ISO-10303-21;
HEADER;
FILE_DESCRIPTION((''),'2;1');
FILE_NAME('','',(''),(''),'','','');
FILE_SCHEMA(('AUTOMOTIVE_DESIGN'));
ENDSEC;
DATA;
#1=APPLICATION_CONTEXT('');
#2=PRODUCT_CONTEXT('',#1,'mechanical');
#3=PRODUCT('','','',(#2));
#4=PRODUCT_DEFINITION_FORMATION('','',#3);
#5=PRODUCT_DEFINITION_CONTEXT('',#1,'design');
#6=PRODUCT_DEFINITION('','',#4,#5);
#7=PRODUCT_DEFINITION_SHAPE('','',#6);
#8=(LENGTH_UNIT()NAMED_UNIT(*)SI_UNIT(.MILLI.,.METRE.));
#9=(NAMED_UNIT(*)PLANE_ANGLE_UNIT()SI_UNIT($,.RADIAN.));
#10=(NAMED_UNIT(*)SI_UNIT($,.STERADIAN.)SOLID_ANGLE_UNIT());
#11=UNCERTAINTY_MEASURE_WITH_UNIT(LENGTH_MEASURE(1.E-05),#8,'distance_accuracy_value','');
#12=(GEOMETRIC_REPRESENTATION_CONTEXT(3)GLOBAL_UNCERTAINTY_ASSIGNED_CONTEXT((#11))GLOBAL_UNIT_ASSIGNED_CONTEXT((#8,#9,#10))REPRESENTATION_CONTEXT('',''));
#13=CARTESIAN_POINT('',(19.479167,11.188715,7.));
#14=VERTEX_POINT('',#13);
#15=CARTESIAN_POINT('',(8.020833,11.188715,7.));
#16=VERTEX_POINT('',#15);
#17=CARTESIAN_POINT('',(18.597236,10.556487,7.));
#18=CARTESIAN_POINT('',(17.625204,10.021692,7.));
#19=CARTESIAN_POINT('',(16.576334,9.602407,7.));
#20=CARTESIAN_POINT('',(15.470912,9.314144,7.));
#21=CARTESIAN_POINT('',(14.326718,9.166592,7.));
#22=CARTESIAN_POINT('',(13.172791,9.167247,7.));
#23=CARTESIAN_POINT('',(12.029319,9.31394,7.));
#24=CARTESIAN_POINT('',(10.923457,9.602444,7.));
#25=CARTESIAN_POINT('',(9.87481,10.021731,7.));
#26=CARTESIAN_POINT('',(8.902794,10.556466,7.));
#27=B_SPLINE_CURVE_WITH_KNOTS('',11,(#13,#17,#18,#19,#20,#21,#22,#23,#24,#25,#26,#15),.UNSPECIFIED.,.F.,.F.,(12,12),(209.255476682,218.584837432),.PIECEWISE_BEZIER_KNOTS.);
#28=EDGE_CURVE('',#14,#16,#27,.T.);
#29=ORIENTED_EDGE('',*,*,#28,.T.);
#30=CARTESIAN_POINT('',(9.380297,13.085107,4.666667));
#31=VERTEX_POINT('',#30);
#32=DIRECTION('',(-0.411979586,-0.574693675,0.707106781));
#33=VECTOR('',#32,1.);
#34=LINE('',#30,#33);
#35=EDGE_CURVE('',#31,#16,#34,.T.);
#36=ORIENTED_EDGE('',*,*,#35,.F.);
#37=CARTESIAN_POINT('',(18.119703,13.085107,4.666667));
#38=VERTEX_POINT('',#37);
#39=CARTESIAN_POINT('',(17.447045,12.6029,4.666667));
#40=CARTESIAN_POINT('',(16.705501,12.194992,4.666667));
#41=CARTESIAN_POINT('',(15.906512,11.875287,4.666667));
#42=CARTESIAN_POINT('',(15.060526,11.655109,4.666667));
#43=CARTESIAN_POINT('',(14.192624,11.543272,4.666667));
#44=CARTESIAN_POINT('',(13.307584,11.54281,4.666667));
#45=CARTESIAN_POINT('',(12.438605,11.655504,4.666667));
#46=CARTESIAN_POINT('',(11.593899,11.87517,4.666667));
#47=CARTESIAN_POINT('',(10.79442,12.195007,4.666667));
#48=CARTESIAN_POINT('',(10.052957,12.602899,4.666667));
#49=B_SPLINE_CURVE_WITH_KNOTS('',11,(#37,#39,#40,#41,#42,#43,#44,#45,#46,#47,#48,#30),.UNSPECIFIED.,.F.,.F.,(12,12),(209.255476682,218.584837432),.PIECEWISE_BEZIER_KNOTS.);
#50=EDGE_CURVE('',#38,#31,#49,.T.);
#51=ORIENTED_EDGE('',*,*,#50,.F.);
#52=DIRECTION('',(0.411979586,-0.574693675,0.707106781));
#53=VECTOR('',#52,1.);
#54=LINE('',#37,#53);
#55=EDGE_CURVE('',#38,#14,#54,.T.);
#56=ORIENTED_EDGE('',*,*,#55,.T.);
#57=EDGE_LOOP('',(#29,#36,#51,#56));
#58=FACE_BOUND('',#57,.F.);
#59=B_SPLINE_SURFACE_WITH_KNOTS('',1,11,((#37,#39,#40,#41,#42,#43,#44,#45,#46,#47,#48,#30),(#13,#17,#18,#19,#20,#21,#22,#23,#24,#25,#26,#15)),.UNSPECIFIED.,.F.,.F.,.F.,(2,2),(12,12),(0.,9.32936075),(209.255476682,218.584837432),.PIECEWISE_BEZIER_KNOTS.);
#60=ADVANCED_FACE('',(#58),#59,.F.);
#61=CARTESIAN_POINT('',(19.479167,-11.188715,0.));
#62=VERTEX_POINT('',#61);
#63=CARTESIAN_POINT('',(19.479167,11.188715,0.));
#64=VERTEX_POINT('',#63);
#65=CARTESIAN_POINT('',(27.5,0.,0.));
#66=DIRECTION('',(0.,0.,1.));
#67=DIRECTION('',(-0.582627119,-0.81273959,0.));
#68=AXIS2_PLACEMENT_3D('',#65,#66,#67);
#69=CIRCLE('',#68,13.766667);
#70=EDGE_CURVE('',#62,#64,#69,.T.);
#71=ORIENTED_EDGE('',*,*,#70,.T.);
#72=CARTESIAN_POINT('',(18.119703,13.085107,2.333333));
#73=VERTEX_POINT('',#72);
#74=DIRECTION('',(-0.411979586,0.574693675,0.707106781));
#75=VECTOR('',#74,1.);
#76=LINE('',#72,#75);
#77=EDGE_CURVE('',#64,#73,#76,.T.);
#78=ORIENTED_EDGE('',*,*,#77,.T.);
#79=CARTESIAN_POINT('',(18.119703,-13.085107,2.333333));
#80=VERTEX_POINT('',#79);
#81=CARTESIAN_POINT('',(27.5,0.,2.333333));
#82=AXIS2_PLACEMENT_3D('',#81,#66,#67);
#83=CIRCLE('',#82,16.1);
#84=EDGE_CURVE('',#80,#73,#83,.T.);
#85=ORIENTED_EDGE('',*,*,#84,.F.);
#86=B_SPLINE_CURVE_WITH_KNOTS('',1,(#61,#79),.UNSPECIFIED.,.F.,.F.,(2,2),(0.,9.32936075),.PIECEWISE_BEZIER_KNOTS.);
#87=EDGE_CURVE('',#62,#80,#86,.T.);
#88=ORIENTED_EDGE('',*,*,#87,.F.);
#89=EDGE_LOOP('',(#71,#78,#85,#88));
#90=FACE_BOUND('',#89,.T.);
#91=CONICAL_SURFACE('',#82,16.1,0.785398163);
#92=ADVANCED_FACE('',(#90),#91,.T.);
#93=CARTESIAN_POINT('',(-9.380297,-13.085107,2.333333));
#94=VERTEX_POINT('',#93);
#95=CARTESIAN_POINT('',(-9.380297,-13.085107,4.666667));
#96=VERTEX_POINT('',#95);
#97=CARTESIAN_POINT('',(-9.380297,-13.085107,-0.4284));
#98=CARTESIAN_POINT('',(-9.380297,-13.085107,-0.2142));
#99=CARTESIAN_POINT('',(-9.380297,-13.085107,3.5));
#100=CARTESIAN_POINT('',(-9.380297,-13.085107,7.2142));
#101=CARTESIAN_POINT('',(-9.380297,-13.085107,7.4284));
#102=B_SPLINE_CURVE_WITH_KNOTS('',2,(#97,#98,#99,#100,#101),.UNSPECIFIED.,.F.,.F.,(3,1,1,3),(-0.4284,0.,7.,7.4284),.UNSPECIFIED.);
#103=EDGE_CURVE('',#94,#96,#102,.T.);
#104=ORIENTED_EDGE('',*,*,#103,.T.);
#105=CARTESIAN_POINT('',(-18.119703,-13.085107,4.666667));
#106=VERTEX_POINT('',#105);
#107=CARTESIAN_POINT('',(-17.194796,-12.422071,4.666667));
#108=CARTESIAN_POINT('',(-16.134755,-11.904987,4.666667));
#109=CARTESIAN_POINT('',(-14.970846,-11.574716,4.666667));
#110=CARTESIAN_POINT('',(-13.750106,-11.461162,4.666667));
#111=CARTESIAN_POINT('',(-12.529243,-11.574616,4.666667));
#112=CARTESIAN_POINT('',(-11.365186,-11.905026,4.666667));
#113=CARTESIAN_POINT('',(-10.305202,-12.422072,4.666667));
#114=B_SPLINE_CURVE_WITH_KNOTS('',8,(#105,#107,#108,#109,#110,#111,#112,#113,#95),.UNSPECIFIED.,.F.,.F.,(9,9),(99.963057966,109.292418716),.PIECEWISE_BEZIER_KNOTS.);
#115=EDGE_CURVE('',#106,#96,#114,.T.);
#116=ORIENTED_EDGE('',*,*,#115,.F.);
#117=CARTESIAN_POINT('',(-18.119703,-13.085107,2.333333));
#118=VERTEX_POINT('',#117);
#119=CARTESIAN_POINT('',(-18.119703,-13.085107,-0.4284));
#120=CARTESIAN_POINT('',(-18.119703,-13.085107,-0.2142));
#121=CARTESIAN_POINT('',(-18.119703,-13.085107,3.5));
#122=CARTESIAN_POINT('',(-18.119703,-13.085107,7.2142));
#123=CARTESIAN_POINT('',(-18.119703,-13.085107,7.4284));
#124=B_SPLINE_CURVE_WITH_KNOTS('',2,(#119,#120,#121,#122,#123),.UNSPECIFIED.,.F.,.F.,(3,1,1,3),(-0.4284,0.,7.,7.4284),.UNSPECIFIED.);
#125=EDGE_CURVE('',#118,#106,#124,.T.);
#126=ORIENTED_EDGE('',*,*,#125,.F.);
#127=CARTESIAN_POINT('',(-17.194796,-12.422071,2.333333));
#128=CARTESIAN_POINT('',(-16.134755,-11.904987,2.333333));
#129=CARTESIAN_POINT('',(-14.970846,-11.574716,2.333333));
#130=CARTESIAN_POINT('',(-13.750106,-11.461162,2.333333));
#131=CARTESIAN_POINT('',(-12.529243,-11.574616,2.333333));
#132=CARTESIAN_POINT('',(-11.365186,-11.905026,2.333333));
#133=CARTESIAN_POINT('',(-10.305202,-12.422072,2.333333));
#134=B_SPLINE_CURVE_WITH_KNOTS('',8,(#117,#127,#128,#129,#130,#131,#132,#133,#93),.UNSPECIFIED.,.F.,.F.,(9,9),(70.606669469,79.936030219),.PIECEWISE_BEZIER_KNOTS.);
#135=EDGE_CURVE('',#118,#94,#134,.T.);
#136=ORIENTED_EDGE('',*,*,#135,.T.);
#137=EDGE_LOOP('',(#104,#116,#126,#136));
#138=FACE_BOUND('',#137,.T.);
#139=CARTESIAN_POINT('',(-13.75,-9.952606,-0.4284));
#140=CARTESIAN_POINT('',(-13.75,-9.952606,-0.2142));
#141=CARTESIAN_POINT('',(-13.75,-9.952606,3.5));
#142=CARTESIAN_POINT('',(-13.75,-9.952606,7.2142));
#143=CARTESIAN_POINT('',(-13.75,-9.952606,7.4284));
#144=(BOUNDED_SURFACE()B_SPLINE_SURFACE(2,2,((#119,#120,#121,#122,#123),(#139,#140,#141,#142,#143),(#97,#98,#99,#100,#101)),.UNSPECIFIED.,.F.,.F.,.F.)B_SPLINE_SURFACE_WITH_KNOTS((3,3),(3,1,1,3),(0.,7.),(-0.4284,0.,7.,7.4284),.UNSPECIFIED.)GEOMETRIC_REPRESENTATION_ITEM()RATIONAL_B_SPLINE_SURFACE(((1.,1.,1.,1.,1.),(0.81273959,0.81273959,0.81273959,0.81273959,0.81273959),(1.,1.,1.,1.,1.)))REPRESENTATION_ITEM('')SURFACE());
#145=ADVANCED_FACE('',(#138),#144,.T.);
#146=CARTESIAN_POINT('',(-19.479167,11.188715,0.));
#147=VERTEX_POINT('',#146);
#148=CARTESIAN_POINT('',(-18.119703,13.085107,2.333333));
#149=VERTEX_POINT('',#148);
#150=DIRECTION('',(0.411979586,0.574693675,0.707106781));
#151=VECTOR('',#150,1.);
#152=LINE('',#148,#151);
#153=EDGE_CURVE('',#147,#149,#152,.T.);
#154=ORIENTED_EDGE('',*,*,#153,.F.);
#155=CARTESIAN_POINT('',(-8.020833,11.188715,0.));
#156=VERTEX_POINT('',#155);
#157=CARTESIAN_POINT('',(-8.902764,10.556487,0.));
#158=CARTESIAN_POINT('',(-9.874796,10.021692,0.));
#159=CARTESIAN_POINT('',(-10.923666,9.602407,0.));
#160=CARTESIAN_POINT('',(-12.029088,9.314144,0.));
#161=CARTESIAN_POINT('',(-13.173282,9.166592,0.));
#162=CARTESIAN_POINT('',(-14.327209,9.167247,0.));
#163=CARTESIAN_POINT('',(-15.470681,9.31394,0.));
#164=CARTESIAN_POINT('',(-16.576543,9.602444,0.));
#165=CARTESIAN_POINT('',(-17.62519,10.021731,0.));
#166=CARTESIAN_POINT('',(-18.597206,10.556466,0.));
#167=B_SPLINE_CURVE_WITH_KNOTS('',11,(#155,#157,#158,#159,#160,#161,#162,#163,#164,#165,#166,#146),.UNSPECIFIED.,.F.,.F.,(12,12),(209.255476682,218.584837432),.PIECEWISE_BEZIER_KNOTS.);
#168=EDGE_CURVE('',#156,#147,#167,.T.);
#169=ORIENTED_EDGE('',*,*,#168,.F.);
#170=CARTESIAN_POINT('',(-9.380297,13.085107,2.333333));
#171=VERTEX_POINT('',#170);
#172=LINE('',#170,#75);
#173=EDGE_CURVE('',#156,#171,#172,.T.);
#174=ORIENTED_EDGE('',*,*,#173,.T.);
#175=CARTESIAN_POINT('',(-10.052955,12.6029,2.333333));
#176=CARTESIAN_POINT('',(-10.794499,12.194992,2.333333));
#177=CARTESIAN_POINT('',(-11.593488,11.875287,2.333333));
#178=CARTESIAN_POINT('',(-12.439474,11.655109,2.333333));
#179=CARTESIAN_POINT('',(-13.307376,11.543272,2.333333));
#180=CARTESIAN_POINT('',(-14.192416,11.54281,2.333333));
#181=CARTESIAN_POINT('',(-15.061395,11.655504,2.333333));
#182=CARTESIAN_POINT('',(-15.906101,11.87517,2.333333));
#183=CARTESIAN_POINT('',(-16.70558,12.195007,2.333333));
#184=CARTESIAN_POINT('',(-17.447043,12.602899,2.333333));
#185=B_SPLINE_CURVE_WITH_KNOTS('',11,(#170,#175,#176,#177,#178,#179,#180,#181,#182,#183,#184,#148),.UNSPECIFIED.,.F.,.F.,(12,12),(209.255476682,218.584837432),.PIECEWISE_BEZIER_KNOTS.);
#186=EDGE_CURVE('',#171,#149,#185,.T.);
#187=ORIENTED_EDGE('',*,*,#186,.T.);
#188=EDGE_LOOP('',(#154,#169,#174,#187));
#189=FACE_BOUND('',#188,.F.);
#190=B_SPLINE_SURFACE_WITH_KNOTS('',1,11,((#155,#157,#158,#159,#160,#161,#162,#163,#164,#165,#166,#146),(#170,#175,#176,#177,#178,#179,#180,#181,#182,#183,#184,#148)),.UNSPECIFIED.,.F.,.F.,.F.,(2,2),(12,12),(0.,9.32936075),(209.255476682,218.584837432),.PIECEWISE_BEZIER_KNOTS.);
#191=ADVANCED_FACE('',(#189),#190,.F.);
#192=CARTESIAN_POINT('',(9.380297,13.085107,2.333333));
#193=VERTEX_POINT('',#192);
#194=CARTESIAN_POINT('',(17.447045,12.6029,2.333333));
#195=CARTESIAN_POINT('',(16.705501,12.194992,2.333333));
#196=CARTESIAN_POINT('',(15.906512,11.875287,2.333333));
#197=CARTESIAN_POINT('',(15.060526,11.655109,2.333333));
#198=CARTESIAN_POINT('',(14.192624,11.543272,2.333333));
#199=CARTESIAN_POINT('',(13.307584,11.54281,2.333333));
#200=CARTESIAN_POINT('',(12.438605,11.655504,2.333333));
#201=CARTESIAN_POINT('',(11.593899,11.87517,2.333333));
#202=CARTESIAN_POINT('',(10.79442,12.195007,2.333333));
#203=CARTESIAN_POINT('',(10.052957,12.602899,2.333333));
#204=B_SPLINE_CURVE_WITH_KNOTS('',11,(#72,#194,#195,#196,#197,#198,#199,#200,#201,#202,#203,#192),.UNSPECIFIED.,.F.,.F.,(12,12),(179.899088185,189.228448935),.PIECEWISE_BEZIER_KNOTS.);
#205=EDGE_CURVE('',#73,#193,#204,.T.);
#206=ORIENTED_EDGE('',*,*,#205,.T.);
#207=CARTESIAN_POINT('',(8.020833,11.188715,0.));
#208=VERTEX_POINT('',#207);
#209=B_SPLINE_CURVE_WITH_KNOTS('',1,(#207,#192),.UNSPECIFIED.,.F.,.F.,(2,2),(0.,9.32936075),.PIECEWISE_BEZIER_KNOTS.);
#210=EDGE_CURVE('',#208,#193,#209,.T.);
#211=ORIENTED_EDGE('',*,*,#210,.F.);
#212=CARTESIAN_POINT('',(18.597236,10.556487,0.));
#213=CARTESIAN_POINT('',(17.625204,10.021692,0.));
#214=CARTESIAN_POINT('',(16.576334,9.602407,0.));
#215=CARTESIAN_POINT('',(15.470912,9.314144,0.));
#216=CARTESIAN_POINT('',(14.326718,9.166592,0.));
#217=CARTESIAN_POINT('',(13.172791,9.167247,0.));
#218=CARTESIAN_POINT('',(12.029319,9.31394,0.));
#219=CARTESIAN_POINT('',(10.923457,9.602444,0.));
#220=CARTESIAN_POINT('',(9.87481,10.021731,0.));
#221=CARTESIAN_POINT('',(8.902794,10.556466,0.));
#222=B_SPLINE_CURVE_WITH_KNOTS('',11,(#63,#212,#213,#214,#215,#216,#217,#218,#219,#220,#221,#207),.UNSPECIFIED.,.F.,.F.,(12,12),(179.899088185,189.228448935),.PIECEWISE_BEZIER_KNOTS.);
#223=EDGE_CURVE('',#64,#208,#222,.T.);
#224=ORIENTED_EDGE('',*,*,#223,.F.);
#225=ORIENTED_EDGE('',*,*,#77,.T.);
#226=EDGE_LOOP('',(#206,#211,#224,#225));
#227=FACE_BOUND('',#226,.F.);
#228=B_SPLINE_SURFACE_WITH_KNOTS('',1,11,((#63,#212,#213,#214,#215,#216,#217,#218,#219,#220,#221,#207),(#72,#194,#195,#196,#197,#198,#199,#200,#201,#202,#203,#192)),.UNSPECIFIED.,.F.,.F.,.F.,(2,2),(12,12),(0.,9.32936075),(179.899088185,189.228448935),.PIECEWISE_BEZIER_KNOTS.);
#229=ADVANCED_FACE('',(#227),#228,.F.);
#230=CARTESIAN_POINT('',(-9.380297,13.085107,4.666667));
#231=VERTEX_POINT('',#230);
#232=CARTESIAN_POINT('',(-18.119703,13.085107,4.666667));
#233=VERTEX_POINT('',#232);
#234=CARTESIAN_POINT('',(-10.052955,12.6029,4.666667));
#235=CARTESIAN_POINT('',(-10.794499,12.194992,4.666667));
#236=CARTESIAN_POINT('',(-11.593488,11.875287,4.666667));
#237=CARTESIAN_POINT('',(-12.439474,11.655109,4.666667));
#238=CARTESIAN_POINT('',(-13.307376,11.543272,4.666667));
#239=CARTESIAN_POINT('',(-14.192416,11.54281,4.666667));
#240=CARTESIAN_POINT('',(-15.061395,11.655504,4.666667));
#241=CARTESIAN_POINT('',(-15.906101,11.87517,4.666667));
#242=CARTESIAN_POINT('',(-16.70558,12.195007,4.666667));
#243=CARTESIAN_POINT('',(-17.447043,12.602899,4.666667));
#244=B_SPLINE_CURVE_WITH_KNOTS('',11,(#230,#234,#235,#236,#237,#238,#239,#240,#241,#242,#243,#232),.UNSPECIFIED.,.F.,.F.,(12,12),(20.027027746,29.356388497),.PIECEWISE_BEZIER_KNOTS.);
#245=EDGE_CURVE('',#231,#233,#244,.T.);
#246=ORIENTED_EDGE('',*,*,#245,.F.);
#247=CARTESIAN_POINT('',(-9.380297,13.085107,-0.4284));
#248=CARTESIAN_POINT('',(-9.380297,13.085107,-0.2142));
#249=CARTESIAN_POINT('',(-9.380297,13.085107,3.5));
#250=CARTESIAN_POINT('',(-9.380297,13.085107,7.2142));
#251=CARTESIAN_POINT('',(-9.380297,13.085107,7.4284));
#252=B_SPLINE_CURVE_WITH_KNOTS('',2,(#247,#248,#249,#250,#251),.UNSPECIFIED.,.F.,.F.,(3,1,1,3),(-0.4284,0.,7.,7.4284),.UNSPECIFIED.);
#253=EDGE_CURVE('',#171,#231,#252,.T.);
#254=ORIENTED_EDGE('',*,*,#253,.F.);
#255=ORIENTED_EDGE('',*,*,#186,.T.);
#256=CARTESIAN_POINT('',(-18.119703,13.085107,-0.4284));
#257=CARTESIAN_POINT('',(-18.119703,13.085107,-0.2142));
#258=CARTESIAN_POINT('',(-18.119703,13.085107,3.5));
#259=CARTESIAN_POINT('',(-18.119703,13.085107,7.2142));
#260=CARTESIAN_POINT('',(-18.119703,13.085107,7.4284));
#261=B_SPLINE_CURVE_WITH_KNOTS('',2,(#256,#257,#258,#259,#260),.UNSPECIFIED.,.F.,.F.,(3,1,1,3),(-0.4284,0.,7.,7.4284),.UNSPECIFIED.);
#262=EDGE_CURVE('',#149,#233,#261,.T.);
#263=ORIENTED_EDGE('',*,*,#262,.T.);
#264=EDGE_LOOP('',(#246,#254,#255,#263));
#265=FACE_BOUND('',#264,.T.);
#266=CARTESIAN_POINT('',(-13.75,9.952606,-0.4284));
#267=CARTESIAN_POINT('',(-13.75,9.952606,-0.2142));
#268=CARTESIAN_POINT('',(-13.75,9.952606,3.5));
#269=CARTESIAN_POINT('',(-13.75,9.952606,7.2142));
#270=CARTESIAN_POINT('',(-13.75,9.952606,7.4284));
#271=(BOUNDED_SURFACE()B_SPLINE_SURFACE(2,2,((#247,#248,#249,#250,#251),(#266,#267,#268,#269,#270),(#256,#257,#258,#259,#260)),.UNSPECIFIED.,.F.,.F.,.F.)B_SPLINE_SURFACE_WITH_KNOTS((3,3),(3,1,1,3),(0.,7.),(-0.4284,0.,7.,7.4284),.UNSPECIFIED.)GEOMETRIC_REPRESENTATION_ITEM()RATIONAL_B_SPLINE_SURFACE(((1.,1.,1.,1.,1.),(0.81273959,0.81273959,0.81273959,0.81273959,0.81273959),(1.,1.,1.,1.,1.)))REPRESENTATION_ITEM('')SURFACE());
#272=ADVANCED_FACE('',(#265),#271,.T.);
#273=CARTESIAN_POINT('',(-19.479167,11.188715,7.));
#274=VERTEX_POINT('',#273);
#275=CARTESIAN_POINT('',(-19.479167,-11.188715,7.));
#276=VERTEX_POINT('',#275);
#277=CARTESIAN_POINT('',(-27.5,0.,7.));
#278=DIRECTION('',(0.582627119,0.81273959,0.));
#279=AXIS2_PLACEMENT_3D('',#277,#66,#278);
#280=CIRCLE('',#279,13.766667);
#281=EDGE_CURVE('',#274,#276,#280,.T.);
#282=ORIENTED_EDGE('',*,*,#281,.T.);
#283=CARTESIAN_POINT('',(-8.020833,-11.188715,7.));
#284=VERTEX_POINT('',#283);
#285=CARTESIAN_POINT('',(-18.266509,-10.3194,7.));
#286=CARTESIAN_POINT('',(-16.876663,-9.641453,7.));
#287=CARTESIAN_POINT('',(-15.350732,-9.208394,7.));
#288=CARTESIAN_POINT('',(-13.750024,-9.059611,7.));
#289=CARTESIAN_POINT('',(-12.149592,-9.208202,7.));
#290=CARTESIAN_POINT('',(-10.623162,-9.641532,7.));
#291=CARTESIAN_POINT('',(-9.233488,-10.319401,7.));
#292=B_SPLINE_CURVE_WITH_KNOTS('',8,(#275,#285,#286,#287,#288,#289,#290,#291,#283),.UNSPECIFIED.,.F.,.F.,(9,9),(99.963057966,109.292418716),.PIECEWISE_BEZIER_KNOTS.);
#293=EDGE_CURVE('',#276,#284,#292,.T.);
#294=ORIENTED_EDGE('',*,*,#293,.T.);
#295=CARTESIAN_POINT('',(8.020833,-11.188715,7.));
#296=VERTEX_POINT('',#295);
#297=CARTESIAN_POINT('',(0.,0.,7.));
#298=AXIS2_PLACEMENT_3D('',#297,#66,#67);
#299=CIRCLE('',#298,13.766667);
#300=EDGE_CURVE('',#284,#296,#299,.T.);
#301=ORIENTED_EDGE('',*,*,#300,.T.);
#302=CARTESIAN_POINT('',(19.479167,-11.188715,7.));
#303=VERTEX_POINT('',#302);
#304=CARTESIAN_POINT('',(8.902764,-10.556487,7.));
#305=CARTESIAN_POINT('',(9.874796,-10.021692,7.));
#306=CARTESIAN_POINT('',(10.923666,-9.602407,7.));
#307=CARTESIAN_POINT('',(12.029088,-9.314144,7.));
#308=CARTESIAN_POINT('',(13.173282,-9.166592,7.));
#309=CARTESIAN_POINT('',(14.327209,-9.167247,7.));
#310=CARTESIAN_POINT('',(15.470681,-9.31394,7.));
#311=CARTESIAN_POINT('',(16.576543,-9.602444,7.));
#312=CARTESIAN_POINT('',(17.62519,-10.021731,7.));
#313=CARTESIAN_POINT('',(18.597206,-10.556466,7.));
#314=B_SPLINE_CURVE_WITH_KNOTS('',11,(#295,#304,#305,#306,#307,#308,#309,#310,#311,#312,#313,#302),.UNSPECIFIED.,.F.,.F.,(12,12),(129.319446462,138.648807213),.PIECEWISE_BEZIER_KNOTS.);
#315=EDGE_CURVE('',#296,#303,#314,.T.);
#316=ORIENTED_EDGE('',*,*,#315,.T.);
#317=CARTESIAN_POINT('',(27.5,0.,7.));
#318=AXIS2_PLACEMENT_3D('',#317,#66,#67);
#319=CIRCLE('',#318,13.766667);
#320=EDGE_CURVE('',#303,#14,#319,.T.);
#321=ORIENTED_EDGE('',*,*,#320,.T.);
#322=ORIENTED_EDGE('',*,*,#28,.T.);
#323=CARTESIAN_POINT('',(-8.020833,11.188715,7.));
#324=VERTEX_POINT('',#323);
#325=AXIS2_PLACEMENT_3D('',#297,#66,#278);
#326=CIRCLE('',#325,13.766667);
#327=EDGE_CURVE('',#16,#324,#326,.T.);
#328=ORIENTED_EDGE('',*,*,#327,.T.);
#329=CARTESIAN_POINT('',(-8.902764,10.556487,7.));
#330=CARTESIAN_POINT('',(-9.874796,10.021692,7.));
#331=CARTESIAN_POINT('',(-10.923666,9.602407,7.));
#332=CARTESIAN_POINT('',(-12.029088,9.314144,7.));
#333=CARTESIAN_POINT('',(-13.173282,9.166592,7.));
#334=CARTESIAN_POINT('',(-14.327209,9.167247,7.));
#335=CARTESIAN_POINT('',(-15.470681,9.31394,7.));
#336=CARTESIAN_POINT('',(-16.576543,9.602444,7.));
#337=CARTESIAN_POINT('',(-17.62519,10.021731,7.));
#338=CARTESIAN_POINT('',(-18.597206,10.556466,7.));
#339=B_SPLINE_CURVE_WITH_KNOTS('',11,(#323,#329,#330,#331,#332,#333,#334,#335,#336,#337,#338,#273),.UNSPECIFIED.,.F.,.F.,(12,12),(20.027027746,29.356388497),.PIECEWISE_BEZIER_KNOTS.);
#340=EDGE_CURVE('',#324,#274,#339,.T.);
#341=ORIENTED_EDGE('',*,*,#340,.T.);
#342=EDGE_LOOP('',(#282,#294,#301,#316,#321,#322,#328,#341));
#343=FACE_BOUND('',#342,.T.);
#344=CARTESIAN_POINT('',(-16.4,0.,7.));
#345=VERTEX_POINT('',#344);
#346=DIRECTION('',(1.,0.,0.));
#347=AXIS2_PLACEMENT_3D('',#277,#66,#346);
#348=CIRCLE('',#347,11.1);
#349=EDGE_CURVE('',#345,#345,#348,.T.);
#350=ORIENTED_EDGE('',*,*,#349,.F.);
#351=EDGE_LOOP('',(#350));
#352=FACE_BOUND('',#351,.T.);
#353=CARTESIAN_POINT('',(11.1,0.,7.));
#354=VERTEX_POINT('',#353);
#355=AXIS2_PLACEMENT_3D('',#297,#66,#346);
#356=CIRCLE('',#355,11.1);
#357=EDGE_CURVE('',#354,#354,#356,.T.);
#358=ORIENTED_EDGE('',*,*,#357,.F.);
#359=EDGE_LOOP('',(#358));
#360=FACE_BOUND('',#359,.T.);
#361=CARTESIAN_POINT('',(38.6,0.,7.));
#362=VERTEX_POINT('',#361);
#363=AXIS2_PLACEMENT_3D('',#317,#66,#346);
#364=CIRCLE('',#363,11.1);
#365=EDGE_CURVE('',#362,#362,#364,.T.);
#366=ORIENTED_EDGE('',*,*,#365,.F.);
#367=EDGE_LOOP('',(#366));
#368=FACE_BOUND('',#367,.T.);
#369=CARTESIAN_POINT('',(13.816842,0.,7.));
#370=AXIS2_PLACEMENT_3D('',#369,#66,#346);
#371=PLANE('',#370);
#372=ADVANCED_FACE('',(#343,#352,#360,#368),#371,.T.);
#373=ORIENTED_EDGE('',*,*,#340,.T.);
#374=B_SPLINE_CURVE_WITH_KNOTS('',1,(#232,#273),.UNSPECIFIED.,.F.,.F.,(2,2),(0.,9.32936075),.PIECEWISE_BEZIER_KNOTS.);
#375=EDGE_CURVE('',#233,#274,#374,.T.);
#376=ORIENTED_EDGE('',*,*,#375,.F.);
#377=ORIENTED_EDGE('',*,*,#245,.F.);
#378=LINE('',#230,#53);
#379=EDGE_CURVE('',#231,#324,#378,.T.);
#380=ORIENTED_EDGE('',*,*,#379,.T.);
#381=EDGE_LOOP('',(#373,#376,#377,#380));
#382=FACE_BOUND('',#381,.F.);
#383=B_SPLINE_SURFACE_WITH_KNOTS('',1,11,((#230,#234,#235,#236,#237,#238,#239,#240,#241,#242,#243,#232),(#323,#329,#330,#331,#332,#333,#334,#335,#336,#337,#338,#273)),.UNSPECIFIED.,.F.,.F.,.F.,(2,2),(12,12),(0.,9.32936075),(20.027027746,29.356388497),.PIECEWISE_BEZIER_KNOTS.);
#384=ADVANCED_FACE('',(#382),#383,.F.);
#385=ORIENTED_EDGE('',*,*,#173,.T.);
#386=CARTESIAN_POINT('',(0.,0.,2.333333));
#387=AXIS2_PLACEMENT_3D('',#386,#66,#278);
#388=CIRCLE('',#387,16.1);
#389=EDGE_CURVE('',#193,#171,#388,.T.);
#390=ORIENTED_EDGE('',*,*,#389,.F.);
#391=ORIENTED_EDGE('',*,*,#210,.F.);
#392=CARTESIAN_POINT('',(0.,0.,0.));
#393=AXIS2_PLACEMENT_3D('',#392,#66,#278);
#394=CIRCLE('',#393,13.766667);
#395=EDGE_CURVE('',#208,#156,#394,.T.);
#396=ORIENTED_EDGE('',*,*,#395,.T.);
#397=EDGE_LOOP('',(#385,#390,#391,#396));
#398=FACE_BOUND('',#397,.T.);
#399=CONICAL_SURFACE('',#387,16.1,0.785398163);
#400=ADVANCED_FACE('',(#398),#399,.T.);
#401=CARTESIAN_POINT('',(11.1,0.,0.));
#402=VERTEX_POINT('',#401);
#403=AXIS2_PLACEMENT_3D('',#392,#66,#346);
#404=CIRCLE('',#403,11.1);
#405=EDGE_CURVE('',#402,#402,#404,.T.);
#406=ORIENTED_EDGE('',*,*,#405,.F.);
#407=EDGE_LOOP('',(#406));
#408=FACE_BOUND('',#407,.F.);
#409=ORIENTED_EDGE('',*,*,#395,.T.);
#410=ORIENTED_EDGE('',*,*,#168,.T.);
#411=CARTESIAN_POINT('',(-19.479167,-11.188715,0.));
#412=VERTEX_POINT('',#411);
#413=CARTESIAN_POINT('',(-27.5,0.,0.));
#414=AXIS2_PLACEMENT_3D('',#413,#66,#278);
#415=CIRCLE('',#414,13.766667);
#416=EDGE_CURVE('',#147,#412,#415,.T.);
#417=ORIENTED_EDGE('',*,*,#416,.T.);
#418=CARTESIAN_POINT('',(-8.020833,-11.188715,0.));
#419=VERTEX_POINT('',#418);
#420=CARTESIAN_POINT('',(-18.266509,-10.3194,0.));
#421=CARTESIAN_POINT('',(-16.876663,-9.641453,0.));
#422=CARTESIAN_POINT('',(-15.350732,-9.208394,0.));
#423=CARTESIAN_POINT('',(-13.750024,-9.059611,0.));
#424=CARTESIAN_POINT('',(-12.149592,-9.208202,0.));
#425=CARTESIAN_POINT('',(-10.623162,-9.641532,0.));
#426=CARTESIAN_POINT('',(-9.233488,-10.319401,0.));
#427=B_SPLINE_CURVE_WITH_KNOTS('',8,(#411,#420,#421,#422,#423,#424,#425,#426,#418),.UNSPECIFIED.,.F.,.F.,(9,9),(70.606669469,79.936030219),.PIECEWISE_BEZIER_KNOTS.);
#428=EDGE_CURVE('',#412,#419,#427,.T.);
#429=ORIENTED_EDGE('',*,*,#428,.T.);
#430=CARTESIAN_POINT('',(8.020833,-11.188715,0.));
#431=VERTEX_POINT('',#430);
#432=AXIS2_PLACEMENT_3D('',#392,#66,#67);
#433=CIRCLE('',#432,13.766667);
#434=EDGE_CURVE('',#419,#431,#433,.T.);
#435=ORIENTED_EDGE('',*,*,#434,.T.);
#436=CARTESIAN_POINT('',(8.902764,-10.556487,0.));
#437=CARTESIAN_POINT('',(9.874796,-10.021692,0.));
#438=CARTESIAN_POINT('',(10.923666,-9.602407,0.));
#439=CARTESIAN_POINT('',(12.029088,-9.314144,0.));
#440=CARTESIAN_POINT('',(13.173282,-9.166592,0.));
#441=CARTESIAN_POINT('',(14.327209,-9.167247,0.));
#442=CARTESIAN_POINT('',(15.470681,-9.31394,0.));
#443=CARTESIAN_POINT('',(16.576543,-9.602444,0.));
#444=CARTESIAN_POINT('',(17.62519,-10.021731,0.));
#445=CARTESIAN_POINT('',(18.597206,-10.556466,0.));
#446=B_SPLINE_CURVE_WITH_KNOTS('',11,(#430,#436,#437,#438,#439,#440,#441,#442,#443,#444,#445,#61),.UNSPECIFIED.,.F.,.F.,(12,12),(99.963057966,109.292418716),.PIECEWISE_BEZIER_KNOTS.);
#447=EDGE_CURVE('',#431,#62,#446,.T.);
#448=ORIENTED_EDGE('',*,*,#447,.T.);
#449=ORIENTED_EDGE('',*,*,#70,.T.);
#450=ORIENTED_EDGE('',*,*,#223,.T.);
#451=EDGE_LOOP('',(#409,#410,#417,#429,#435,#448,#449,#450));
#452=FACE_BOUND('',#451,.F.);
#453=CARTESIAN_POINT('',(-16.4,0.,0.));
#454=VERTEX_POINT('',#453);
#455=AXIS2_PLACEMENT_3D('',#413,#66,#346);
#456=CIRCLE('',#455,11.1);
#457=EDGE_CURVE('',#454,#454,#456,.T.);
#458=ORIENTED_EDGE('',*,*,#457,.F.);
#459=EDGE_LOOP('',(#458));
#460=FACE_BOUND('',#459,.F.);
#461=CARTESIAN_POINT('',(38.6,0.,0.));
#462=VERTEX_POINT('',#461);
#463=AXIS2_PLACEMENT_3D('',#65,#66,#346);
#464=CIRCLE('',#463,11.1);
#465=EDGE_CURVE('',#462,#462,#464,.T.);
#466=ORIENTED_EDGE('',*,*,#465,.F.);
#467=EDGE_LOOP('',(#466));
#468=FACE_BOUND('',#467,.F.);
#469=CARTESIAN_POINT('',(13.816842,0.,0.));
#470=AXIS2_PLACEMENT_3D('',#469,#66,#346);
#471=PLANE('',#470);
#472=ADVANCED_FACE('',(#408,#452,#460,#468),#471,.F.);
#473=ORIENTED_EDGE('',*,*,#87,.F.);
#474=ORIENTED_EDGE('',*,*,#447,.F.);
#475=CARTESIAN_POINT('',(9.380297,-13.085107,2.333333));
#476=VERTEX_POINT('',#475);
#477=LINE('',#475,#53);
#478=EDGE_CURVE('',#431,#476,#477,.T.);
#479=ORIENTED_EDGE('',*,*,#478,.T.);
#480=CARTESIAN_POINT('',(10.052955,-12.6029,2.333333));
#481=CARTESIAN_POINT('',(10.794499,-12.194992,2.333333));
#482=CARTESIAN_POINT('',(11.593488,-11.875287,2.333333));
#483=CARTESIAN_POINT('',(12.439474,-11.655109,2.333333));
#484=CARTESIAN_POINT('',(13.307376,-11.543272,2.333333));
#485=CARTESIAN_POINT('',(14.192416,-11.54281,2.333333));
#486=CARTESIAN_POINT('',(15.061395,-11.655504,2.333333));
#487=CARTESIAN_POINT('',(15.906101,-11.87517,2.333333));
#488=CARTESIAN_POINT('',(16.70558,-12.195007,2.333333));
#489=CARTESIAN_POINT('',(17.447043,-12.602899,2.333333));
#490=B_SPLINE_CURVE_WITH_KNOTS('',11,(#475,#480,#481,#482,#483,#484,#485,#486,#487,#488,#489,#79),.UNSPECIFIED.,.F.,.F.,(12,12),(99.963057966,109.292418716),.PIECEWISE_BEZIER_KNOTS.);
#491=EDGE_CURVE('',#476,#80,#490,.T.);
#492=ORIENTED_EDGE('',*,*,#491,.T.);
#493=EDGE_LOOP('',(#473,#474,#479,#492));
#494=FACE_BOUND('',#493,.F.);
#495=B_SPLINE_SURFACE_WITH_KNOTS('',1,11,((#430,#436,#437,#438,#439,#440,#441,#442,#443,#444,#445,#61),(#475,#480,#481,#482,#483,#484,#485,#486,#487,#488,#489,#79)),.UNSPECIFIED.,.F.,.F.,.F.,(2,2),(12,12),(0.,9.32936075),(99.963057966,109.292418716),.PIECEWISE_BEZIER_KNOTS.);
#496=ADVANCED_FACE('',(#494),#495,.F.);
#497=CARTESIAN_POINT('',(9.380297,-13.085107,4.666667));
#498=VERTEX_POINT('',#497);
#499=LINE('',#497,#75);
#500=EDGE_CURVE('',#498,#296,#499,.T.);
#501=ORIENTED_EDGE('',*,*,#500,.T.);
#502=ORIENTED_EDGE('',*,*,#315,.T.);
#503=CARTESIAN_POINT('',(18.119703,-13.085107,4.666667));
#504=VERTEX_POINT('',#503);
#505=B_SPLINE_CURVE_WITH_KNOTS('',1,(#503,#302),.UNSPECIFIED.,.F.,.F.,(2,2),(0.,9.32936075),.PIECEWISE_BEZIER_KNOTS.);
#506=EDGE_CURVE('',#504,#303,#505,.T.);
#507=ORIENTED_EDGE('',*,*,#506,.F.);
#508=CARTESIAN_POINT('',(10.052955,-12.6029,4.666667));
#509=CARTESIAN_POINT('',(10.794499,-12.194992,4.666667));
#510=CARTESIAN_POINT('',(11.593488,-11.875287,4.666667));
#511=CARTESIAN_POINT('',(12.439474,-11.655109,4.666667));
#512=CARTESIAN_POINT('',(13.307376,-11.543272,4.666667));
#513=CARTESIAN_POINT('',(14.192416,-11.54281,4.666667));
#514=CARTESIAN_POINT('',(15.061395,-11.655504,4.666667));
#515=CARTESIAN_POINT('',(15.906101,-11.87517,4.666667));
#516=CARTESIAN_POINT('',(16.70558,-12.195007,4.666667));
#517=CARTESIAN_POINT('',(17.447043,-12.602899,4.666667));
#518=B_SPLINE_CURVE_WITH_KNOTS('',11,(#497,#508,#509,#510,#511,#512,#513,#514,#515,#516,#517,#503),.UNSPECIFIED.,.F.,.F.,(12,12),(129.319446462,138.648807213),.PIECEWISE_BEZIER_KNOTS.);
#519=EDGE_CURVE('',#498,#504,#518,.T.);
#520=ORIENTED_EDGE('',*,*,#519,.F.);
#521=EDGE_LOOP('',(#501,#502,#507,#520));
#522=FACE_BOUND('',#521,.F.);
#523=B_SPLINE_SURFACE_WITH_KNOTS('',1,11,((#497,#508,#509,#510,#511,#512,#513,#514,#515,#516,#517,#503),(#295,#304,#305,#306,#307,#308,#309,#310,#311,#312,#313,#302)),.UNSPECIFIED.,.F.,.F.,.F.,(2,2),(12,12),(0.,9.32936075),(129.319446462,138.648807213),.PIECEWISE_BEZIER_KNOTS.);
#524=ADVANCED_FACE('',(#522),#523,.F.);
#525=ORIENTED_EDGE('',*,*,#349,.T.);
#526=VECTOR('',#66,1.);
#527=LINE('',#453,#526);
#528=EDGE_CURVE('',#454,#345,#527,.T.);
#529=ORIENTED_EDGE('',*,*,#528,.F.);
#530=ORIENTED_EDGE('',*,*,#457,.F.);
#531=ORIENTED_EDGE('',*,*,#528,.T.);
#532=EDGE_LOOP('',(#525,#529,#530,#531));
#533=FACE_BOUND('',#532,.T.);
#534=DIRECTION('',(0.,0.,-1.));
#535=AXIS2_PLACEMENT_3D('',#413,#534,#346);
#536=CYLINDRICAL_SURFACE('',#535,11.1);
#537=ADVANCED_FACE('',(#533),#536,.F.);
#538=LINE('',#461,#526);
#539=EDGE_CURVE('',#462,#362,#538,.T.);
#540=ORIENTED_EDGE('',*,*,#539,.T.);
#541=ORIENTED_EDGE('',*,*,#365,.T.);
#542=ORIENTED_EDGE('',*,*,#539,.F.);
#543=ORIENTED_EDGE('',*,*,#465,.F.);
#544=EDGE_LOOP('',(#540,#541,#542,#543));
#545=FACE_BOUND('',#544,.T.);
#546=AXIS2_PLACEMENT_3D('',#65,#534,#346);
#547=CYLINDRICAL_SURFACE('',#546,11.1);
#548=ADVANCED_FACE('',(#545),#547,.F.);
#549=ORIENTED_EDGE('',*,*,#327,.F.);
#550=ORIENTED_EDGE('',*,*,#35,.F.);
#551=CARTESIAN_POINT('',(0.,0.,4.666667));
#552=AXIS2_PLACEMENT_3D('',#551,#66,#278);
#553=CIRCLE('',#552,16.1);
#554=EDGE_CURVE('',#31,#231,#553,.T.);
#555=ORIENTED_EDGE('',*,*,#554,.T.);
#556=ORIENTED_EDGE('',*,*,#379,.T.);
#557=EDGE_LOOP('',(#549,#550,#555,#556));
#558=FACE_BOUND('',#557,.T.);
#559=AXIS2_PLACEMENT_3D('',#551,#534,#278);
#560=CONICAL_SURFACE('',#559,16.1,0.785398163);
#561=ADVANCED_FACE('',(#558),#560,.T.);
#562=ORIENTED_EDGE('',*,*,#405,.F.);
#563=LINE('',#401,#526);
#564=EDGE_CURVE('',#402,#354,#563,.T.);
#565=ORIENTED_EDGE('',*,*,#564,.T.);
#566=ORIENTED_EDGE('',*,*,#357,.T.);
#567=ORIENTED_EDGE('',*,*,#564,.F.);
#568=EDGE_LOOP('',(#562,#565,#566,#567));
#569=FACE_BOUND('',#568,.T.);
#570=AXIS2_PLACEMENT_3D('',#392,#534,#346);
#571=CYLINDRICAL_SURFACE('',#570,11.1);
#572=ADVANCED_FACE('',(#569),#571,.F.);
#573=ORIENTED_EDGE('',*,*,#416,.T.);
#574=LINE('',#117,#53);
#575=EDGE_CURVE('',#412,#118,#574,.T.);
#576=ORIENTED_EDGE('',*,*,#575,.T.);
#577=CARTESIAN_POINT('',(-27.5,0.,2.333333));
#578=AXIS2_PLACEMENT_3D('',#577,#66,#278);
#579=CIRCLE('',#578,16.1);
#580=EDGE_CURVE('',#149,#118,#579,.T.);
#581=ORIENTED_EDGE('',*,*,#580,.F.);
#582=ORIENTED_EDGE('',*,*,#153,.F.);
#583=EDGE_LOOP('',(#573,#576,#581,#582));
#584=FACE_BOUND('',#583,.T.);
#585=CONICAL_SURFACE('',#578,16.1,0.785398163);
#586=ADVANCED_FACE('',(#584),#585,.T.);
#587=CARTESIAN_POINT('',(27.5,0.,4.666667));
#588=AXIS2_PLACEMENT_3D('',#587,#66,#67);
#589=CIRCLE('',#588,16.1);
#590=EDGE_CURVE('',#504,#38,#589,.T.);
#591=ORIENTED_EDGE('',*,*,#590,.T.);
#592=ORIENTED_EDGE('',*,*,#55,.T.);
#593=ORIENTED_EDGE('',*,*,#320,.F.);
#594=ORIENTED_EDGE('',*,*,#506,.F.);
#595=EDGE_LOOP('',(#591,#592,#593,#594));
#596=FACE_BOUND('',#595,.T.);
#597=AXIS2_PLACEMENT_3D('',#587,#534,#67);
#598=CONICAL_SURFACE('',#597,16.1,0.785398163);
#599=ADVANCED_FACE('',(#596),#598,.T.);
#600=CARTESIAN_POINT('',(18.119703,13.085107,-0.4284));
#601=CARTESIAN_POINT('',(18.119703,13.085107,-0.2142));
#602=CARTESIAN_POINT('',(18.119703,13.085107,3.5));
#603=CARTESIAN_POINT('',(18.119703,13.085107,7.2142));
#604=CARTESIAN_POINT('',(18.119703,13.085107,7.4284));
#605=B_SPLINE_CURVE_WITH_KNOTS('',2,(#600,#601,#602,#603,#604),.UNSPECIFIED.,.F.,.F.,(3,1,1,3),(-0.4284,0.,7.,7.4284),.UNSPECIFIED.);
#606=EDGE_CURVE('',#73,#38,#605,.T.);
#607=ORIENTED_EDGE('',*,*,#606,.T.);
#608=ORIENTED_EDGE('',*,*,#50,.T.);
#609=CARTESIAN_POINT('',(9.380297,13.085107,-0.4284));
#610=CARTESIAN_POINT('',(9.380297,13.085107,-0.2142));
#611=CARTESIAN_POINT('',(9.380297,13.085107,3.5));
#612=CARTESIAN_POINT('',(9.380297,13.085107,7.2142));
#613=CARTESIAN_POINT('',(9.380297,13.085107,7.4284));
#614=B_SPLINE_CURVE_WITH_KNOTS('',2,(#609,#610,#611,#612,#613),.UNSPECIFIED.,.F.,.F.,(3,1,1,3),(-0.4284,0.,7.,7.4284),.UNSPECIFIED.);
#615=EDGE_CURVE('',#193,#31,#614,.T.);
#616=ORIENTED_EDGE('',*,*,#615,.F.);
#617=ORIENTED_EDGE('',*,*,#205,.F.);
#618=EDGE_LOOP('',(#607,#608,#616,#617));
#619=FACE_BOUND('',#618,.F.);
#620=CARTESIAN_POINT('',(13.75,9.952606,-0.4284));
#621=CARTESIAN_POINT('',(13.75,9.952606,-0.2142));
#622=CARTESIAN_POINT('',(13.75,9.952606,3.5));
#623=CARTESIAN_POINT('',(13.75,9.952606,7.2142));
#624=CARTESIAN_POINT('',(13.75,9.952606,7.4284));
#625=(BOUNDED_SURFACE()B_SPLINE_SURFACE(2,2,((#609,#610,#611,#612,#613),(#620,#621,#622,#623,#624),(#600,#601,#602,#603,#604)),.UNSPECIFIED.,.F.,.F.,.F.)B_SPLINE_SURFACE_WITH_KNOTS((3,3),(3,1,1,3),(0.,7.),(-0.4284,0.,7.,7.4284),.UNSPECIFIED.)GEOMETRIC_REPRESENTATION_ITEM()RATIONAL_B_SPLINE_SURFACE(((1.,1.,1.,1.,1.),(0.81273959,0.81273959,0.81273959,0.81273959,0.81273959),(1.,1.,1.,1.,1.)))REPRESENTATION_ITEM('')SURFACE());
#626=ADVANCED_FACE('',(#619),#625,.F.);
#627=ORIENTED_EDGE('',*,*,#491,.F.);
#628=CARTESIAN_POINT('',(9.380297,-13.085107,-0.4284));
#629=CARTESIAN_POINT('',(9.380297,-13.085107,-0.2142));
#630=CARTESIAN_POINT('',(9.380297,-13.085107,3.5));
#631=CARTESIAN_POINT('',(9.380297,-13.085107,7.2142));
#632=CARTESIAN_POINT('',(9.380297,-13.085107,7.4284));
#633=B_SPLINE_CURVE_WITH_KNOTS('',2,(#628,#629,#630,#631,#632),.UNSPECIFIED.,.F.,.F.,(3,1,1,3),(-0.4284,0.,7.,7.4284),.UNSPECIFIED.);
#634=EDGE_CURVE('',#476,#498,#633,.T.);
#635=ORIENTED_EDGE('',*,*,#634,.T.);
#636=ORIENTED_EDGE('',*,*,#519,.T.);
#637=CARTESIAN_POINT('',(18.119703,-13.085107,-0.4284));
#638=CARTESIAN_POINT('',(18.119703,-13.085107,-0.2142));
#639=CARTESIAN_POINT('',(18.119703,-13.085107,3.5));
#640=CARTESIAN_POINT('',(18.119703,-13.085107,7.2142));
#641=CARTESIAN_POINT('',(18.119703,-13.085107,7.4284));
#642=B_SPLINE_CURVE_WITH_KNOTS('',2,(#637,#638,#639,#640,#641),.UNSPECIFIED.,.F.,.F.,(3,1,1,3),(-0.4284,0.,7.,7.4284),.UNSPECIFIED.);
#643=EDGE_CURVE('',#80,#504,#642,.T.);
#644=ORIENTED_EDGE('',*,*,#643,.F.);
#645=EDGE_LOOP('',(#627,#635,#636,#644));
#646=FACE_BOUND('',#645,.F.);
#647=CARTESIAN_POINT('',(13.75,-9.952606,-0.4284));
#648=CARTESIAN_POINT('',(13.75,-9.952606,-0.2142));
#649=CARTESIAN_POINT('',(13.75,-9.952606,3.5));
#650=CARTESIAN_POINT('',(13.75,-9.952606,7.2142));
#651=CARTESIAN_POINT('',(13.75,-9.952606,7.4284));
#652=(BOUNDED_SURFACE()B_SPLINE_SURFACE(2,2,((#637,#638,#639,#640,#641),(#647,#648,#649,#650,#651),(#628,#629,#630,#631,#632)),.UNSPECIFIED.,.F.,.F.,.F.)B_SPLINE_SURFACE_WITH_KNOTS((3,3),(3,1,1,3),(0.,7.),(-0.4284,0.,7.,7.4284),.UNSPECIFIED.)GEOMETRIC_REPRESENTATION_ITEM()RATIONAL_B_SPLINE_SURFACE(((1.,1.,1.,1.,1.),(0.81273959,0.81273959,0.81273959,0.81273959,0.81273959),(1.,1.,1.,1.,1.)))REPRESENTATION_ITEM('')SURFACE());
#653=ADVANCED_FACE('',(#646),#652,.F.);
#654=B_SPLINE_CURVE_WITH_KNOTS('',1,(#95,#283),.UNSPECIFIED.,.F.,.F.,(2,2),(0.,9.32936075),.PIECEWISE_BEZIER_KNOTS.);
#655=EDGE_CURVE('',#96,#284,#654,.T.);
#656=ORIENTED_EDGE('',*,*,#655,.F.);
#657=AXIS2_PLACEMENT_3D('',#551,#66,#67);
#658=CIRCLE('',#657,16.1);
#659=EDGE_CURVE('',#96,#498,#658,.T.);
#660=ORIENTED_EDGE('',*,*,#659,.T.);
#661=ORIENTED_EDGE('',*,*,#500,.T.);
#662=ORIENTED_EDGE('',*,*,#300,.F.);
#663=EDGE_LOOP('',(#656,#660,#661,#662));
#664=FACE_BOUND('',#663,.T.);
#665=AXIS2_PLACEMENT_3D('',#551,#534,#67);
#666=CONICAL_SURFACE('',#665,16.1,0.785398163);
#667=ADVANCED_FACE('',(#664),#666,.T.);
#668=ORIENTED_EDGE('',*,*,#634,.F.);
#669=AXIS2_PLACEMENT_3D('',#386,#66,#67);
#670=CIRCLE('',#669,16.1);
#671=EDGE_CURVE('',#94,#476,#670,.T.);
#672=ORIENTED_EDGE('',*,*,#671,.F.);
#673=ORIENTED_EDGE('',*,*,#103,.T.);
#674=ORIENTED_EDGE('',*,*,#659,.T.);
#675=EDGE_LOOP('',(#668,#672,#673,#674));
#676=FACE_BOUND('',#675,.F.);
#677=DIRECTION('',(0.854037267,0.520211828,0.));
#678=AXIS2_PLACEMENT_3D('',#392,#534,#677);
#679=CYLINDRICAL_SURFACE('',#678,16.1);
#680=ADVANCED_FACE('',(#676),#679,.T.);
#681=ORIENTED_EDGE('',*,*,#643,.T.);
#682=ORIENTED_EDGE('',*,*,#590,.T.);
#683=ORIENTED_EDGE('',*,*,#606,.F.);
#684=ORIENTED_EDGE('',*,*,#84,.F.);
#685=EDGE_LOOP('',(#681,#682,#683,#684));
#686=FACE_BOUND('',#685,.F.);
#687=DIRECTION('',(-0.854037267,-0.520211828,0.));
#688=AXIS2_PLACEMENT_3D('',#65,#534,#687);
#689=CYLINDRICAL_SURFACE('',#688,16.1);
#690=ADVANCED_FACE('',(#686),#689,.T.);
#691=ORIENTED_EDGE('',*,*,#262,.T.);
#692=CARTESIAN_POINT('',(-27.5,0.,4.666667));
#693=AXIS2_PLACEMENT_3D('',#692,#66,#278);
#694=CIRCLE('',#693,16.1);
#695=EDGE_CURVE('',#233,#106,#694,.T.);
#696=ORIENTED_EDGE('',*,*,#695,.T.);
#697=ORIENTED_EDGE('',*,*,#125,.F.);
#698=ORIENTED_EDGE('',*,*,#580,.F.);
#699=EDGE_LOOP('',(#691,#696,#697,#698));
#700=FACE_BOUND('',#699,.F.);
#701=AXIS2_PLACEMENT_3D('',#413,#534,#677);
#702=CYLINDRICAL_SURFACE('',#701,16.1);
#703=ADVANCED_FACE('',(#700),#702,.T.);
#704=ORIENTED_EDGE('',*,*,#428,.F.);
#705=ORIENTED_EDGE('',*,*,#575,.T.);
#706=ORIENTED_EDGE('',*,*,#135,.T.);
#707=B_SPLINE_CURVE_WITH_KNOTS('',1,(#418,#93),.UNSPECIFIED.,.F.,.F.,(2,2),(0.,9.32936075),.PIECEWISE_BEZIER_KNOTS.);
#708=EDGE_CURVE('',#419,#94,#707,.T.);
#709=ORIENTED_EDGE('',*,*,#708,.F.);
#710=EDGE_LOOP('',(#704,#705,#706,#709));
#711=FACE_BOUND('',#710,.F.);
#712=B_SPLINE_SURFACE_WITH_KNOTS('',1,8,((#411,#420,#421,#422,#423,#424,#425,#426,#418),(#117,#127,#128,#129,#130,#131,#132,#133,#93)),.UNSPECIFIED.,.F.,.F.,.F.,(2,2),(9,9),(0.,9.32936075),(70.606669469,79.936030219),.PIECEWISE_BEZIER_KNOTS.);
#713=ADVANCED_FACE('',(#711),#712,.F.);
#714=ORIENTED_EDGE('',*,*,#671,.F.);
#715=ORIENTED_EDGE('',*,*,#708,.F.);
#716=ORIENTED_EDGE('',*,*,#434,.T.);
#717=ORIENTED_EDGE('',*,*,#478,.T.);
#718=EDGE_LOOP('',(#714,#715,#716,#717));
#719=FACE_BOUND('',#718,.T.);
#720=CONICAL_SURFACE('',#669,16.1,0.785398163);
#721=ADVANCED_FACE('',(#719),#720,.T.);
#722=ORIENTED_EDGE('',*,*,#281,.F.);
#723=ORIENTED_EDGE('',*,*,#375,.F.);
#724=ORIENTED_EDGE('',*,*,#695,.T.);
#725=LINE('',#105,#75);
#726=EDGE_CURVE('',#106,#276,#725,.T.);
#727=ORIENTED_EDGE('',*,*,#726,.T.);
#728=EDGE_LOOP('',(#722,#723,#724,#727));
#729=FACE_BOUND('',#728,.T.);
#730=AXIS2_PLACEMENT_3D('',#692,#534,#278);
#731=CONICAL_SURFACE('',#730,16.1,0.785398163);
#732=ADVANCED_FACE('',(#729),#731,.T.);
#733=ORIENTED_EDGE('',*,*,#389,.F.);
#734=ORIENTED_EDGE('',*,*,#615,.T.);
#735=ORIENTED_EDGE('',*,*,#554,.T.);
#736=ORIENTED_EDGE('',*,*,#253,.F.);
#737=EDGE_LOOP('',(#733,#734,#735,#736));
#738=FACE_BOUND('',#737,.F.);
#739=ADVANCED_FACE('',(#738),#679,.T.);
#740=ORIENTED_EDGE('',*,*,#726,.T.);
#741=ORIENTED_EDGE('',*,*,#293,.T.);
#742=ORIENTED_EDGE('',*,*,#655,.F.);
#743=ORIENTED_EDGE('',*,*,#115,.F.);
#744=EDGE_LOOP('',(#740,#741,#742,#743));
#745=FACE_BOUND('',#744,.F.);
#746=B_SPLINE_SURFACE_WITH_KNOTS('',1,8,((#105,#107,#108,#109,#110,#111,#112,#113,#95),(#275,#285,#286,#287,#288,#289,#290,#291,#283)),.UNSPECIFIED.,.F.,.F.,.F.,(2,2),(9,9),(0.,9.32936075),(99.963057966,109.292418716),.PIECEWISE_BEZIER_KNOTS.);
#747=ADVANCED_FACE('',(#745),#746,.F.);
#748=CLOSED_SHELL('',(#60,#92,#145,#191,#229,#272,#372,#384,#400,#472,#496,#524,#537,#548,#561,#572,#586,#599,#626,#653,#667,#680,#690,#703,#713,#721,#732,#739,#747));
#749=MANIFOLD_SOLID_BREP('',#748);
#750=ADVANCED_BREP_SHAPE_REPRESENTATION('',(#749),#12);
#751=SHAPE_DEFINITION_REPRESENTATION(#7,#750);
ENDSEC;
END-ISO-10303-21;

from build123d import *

# Parameters (mm, degrees)
F0_R     = 11.1
F1_DEPTH = 7
F2_R     = 7.5
F3_SIZE  = 2.3333333333


with BuildPart() as f1:
    # F0 (on Top) → F1 (new body)
    with BuildSketch(Plane.XY):
        with BuildLine():
            ThreePointArc((13.75, -8.3754104377), (15.5013709071, -4.3494252494), (16.1, 0))
            ThreePointArc((16.1, 0), (15.5013709071, 4.3494252494), (13.75, 8.3754104377))
            ThreePointArc((13.75, 8.3754104377), (11.4, 0), (13.75, -8.3754104377))
        make_face()
        with BuildLine():
            ThreePointArc((13.75, 8.3754104377), (15.5013709071, 4.3494252494), (16.1, 0))
            ThreePointArc((16.1, 0), (15.5013709071, -4.3494252494), (13.75, -8.3754104377))
            ThreePointArc((13.75, -8.3754104377), (31.8494252494, -15.5013709071), (43.6, 0))
            ThreePointArc((43.6, 0), (31.8494252494, 15.5013709071), (13.75, 8.3754104377))
        make_face()
        with Locations((27.5, 0)):
            Circle(F0_R, mode=Mode.SUBTRACT)
        with BuildLine():
            ThreePointArc((13.75, -8.3754104377), (11.4, 0), (13.75, 8.3754104377))
            ThreePointArc((13.75, 8.3754104377), (0, 16.1), (-13.75, 8.3754104377))
            ThreePointArc((-13.75, 8.3754104377), (-11.9986290929, 4.3494252494), (-11.4, 0))
            ThreePointArc((-11.4, 0), (-11.9986290929, -4.3494252494), (-13.75, -8.3754104377))
            ThreePointArc((-13.75, -8.3754104377), (0, -16.1), (13.75, -8.3754104377))
        make_face()
        Circle(F0_R, mode=Mode.SUBTRACT)
        with BuildLine():
            ThreePointArc((-11.4, 0), (-11.9986290929, 4.3494252494), (-13.75, 8.3754104377))
            ThreePointArc((-13.75, 8.3754104377), (-16.1, 0), (-13.75, -8.3754104377))
            ThreePointArc((-13.75, -8.3754104377), (-11.9986290929, -4.3494252494), (-11.4, 0))
        make_face()
        with BuildLine():
            ThreePointArc((-13.75, -8.3754104377), (-16.1, 0), (-13.75, 8.3754104377))
            ThreePointArc((-13.75, 8.3754104377), (-43.6, 0), (-13.75, -8.3754104377))
        make_face()
        with Locations((-27.5, 0)):
            Circle(F0_R, mode=Mode.SUBTRACT)
    extrude(amount=F1_DEPTH)

    # F2
    f2_edges = [f1.edges().sort_by_distance(p)[0] for p in [
        (-13.75, 8.37541, 3.5),
        (13.75, 8.37541, 3.5),
        (-13.75, -8.37541, 3.5),
        (13.75, -8.37541, 3.5),
    ]]
    fillet(f2_edges, radius=F2_R)

    # F3
    f3_edges = [f1.edges().sort_by_distance(p)[0] for p in [
        (0, 16.1, 7),
        (-13.75, 11.680654, 7),
        (-43.6, 0, 0),
    ]]
    chamfer(f3_edges, length=F3_SIZE)


solid = f1.part
